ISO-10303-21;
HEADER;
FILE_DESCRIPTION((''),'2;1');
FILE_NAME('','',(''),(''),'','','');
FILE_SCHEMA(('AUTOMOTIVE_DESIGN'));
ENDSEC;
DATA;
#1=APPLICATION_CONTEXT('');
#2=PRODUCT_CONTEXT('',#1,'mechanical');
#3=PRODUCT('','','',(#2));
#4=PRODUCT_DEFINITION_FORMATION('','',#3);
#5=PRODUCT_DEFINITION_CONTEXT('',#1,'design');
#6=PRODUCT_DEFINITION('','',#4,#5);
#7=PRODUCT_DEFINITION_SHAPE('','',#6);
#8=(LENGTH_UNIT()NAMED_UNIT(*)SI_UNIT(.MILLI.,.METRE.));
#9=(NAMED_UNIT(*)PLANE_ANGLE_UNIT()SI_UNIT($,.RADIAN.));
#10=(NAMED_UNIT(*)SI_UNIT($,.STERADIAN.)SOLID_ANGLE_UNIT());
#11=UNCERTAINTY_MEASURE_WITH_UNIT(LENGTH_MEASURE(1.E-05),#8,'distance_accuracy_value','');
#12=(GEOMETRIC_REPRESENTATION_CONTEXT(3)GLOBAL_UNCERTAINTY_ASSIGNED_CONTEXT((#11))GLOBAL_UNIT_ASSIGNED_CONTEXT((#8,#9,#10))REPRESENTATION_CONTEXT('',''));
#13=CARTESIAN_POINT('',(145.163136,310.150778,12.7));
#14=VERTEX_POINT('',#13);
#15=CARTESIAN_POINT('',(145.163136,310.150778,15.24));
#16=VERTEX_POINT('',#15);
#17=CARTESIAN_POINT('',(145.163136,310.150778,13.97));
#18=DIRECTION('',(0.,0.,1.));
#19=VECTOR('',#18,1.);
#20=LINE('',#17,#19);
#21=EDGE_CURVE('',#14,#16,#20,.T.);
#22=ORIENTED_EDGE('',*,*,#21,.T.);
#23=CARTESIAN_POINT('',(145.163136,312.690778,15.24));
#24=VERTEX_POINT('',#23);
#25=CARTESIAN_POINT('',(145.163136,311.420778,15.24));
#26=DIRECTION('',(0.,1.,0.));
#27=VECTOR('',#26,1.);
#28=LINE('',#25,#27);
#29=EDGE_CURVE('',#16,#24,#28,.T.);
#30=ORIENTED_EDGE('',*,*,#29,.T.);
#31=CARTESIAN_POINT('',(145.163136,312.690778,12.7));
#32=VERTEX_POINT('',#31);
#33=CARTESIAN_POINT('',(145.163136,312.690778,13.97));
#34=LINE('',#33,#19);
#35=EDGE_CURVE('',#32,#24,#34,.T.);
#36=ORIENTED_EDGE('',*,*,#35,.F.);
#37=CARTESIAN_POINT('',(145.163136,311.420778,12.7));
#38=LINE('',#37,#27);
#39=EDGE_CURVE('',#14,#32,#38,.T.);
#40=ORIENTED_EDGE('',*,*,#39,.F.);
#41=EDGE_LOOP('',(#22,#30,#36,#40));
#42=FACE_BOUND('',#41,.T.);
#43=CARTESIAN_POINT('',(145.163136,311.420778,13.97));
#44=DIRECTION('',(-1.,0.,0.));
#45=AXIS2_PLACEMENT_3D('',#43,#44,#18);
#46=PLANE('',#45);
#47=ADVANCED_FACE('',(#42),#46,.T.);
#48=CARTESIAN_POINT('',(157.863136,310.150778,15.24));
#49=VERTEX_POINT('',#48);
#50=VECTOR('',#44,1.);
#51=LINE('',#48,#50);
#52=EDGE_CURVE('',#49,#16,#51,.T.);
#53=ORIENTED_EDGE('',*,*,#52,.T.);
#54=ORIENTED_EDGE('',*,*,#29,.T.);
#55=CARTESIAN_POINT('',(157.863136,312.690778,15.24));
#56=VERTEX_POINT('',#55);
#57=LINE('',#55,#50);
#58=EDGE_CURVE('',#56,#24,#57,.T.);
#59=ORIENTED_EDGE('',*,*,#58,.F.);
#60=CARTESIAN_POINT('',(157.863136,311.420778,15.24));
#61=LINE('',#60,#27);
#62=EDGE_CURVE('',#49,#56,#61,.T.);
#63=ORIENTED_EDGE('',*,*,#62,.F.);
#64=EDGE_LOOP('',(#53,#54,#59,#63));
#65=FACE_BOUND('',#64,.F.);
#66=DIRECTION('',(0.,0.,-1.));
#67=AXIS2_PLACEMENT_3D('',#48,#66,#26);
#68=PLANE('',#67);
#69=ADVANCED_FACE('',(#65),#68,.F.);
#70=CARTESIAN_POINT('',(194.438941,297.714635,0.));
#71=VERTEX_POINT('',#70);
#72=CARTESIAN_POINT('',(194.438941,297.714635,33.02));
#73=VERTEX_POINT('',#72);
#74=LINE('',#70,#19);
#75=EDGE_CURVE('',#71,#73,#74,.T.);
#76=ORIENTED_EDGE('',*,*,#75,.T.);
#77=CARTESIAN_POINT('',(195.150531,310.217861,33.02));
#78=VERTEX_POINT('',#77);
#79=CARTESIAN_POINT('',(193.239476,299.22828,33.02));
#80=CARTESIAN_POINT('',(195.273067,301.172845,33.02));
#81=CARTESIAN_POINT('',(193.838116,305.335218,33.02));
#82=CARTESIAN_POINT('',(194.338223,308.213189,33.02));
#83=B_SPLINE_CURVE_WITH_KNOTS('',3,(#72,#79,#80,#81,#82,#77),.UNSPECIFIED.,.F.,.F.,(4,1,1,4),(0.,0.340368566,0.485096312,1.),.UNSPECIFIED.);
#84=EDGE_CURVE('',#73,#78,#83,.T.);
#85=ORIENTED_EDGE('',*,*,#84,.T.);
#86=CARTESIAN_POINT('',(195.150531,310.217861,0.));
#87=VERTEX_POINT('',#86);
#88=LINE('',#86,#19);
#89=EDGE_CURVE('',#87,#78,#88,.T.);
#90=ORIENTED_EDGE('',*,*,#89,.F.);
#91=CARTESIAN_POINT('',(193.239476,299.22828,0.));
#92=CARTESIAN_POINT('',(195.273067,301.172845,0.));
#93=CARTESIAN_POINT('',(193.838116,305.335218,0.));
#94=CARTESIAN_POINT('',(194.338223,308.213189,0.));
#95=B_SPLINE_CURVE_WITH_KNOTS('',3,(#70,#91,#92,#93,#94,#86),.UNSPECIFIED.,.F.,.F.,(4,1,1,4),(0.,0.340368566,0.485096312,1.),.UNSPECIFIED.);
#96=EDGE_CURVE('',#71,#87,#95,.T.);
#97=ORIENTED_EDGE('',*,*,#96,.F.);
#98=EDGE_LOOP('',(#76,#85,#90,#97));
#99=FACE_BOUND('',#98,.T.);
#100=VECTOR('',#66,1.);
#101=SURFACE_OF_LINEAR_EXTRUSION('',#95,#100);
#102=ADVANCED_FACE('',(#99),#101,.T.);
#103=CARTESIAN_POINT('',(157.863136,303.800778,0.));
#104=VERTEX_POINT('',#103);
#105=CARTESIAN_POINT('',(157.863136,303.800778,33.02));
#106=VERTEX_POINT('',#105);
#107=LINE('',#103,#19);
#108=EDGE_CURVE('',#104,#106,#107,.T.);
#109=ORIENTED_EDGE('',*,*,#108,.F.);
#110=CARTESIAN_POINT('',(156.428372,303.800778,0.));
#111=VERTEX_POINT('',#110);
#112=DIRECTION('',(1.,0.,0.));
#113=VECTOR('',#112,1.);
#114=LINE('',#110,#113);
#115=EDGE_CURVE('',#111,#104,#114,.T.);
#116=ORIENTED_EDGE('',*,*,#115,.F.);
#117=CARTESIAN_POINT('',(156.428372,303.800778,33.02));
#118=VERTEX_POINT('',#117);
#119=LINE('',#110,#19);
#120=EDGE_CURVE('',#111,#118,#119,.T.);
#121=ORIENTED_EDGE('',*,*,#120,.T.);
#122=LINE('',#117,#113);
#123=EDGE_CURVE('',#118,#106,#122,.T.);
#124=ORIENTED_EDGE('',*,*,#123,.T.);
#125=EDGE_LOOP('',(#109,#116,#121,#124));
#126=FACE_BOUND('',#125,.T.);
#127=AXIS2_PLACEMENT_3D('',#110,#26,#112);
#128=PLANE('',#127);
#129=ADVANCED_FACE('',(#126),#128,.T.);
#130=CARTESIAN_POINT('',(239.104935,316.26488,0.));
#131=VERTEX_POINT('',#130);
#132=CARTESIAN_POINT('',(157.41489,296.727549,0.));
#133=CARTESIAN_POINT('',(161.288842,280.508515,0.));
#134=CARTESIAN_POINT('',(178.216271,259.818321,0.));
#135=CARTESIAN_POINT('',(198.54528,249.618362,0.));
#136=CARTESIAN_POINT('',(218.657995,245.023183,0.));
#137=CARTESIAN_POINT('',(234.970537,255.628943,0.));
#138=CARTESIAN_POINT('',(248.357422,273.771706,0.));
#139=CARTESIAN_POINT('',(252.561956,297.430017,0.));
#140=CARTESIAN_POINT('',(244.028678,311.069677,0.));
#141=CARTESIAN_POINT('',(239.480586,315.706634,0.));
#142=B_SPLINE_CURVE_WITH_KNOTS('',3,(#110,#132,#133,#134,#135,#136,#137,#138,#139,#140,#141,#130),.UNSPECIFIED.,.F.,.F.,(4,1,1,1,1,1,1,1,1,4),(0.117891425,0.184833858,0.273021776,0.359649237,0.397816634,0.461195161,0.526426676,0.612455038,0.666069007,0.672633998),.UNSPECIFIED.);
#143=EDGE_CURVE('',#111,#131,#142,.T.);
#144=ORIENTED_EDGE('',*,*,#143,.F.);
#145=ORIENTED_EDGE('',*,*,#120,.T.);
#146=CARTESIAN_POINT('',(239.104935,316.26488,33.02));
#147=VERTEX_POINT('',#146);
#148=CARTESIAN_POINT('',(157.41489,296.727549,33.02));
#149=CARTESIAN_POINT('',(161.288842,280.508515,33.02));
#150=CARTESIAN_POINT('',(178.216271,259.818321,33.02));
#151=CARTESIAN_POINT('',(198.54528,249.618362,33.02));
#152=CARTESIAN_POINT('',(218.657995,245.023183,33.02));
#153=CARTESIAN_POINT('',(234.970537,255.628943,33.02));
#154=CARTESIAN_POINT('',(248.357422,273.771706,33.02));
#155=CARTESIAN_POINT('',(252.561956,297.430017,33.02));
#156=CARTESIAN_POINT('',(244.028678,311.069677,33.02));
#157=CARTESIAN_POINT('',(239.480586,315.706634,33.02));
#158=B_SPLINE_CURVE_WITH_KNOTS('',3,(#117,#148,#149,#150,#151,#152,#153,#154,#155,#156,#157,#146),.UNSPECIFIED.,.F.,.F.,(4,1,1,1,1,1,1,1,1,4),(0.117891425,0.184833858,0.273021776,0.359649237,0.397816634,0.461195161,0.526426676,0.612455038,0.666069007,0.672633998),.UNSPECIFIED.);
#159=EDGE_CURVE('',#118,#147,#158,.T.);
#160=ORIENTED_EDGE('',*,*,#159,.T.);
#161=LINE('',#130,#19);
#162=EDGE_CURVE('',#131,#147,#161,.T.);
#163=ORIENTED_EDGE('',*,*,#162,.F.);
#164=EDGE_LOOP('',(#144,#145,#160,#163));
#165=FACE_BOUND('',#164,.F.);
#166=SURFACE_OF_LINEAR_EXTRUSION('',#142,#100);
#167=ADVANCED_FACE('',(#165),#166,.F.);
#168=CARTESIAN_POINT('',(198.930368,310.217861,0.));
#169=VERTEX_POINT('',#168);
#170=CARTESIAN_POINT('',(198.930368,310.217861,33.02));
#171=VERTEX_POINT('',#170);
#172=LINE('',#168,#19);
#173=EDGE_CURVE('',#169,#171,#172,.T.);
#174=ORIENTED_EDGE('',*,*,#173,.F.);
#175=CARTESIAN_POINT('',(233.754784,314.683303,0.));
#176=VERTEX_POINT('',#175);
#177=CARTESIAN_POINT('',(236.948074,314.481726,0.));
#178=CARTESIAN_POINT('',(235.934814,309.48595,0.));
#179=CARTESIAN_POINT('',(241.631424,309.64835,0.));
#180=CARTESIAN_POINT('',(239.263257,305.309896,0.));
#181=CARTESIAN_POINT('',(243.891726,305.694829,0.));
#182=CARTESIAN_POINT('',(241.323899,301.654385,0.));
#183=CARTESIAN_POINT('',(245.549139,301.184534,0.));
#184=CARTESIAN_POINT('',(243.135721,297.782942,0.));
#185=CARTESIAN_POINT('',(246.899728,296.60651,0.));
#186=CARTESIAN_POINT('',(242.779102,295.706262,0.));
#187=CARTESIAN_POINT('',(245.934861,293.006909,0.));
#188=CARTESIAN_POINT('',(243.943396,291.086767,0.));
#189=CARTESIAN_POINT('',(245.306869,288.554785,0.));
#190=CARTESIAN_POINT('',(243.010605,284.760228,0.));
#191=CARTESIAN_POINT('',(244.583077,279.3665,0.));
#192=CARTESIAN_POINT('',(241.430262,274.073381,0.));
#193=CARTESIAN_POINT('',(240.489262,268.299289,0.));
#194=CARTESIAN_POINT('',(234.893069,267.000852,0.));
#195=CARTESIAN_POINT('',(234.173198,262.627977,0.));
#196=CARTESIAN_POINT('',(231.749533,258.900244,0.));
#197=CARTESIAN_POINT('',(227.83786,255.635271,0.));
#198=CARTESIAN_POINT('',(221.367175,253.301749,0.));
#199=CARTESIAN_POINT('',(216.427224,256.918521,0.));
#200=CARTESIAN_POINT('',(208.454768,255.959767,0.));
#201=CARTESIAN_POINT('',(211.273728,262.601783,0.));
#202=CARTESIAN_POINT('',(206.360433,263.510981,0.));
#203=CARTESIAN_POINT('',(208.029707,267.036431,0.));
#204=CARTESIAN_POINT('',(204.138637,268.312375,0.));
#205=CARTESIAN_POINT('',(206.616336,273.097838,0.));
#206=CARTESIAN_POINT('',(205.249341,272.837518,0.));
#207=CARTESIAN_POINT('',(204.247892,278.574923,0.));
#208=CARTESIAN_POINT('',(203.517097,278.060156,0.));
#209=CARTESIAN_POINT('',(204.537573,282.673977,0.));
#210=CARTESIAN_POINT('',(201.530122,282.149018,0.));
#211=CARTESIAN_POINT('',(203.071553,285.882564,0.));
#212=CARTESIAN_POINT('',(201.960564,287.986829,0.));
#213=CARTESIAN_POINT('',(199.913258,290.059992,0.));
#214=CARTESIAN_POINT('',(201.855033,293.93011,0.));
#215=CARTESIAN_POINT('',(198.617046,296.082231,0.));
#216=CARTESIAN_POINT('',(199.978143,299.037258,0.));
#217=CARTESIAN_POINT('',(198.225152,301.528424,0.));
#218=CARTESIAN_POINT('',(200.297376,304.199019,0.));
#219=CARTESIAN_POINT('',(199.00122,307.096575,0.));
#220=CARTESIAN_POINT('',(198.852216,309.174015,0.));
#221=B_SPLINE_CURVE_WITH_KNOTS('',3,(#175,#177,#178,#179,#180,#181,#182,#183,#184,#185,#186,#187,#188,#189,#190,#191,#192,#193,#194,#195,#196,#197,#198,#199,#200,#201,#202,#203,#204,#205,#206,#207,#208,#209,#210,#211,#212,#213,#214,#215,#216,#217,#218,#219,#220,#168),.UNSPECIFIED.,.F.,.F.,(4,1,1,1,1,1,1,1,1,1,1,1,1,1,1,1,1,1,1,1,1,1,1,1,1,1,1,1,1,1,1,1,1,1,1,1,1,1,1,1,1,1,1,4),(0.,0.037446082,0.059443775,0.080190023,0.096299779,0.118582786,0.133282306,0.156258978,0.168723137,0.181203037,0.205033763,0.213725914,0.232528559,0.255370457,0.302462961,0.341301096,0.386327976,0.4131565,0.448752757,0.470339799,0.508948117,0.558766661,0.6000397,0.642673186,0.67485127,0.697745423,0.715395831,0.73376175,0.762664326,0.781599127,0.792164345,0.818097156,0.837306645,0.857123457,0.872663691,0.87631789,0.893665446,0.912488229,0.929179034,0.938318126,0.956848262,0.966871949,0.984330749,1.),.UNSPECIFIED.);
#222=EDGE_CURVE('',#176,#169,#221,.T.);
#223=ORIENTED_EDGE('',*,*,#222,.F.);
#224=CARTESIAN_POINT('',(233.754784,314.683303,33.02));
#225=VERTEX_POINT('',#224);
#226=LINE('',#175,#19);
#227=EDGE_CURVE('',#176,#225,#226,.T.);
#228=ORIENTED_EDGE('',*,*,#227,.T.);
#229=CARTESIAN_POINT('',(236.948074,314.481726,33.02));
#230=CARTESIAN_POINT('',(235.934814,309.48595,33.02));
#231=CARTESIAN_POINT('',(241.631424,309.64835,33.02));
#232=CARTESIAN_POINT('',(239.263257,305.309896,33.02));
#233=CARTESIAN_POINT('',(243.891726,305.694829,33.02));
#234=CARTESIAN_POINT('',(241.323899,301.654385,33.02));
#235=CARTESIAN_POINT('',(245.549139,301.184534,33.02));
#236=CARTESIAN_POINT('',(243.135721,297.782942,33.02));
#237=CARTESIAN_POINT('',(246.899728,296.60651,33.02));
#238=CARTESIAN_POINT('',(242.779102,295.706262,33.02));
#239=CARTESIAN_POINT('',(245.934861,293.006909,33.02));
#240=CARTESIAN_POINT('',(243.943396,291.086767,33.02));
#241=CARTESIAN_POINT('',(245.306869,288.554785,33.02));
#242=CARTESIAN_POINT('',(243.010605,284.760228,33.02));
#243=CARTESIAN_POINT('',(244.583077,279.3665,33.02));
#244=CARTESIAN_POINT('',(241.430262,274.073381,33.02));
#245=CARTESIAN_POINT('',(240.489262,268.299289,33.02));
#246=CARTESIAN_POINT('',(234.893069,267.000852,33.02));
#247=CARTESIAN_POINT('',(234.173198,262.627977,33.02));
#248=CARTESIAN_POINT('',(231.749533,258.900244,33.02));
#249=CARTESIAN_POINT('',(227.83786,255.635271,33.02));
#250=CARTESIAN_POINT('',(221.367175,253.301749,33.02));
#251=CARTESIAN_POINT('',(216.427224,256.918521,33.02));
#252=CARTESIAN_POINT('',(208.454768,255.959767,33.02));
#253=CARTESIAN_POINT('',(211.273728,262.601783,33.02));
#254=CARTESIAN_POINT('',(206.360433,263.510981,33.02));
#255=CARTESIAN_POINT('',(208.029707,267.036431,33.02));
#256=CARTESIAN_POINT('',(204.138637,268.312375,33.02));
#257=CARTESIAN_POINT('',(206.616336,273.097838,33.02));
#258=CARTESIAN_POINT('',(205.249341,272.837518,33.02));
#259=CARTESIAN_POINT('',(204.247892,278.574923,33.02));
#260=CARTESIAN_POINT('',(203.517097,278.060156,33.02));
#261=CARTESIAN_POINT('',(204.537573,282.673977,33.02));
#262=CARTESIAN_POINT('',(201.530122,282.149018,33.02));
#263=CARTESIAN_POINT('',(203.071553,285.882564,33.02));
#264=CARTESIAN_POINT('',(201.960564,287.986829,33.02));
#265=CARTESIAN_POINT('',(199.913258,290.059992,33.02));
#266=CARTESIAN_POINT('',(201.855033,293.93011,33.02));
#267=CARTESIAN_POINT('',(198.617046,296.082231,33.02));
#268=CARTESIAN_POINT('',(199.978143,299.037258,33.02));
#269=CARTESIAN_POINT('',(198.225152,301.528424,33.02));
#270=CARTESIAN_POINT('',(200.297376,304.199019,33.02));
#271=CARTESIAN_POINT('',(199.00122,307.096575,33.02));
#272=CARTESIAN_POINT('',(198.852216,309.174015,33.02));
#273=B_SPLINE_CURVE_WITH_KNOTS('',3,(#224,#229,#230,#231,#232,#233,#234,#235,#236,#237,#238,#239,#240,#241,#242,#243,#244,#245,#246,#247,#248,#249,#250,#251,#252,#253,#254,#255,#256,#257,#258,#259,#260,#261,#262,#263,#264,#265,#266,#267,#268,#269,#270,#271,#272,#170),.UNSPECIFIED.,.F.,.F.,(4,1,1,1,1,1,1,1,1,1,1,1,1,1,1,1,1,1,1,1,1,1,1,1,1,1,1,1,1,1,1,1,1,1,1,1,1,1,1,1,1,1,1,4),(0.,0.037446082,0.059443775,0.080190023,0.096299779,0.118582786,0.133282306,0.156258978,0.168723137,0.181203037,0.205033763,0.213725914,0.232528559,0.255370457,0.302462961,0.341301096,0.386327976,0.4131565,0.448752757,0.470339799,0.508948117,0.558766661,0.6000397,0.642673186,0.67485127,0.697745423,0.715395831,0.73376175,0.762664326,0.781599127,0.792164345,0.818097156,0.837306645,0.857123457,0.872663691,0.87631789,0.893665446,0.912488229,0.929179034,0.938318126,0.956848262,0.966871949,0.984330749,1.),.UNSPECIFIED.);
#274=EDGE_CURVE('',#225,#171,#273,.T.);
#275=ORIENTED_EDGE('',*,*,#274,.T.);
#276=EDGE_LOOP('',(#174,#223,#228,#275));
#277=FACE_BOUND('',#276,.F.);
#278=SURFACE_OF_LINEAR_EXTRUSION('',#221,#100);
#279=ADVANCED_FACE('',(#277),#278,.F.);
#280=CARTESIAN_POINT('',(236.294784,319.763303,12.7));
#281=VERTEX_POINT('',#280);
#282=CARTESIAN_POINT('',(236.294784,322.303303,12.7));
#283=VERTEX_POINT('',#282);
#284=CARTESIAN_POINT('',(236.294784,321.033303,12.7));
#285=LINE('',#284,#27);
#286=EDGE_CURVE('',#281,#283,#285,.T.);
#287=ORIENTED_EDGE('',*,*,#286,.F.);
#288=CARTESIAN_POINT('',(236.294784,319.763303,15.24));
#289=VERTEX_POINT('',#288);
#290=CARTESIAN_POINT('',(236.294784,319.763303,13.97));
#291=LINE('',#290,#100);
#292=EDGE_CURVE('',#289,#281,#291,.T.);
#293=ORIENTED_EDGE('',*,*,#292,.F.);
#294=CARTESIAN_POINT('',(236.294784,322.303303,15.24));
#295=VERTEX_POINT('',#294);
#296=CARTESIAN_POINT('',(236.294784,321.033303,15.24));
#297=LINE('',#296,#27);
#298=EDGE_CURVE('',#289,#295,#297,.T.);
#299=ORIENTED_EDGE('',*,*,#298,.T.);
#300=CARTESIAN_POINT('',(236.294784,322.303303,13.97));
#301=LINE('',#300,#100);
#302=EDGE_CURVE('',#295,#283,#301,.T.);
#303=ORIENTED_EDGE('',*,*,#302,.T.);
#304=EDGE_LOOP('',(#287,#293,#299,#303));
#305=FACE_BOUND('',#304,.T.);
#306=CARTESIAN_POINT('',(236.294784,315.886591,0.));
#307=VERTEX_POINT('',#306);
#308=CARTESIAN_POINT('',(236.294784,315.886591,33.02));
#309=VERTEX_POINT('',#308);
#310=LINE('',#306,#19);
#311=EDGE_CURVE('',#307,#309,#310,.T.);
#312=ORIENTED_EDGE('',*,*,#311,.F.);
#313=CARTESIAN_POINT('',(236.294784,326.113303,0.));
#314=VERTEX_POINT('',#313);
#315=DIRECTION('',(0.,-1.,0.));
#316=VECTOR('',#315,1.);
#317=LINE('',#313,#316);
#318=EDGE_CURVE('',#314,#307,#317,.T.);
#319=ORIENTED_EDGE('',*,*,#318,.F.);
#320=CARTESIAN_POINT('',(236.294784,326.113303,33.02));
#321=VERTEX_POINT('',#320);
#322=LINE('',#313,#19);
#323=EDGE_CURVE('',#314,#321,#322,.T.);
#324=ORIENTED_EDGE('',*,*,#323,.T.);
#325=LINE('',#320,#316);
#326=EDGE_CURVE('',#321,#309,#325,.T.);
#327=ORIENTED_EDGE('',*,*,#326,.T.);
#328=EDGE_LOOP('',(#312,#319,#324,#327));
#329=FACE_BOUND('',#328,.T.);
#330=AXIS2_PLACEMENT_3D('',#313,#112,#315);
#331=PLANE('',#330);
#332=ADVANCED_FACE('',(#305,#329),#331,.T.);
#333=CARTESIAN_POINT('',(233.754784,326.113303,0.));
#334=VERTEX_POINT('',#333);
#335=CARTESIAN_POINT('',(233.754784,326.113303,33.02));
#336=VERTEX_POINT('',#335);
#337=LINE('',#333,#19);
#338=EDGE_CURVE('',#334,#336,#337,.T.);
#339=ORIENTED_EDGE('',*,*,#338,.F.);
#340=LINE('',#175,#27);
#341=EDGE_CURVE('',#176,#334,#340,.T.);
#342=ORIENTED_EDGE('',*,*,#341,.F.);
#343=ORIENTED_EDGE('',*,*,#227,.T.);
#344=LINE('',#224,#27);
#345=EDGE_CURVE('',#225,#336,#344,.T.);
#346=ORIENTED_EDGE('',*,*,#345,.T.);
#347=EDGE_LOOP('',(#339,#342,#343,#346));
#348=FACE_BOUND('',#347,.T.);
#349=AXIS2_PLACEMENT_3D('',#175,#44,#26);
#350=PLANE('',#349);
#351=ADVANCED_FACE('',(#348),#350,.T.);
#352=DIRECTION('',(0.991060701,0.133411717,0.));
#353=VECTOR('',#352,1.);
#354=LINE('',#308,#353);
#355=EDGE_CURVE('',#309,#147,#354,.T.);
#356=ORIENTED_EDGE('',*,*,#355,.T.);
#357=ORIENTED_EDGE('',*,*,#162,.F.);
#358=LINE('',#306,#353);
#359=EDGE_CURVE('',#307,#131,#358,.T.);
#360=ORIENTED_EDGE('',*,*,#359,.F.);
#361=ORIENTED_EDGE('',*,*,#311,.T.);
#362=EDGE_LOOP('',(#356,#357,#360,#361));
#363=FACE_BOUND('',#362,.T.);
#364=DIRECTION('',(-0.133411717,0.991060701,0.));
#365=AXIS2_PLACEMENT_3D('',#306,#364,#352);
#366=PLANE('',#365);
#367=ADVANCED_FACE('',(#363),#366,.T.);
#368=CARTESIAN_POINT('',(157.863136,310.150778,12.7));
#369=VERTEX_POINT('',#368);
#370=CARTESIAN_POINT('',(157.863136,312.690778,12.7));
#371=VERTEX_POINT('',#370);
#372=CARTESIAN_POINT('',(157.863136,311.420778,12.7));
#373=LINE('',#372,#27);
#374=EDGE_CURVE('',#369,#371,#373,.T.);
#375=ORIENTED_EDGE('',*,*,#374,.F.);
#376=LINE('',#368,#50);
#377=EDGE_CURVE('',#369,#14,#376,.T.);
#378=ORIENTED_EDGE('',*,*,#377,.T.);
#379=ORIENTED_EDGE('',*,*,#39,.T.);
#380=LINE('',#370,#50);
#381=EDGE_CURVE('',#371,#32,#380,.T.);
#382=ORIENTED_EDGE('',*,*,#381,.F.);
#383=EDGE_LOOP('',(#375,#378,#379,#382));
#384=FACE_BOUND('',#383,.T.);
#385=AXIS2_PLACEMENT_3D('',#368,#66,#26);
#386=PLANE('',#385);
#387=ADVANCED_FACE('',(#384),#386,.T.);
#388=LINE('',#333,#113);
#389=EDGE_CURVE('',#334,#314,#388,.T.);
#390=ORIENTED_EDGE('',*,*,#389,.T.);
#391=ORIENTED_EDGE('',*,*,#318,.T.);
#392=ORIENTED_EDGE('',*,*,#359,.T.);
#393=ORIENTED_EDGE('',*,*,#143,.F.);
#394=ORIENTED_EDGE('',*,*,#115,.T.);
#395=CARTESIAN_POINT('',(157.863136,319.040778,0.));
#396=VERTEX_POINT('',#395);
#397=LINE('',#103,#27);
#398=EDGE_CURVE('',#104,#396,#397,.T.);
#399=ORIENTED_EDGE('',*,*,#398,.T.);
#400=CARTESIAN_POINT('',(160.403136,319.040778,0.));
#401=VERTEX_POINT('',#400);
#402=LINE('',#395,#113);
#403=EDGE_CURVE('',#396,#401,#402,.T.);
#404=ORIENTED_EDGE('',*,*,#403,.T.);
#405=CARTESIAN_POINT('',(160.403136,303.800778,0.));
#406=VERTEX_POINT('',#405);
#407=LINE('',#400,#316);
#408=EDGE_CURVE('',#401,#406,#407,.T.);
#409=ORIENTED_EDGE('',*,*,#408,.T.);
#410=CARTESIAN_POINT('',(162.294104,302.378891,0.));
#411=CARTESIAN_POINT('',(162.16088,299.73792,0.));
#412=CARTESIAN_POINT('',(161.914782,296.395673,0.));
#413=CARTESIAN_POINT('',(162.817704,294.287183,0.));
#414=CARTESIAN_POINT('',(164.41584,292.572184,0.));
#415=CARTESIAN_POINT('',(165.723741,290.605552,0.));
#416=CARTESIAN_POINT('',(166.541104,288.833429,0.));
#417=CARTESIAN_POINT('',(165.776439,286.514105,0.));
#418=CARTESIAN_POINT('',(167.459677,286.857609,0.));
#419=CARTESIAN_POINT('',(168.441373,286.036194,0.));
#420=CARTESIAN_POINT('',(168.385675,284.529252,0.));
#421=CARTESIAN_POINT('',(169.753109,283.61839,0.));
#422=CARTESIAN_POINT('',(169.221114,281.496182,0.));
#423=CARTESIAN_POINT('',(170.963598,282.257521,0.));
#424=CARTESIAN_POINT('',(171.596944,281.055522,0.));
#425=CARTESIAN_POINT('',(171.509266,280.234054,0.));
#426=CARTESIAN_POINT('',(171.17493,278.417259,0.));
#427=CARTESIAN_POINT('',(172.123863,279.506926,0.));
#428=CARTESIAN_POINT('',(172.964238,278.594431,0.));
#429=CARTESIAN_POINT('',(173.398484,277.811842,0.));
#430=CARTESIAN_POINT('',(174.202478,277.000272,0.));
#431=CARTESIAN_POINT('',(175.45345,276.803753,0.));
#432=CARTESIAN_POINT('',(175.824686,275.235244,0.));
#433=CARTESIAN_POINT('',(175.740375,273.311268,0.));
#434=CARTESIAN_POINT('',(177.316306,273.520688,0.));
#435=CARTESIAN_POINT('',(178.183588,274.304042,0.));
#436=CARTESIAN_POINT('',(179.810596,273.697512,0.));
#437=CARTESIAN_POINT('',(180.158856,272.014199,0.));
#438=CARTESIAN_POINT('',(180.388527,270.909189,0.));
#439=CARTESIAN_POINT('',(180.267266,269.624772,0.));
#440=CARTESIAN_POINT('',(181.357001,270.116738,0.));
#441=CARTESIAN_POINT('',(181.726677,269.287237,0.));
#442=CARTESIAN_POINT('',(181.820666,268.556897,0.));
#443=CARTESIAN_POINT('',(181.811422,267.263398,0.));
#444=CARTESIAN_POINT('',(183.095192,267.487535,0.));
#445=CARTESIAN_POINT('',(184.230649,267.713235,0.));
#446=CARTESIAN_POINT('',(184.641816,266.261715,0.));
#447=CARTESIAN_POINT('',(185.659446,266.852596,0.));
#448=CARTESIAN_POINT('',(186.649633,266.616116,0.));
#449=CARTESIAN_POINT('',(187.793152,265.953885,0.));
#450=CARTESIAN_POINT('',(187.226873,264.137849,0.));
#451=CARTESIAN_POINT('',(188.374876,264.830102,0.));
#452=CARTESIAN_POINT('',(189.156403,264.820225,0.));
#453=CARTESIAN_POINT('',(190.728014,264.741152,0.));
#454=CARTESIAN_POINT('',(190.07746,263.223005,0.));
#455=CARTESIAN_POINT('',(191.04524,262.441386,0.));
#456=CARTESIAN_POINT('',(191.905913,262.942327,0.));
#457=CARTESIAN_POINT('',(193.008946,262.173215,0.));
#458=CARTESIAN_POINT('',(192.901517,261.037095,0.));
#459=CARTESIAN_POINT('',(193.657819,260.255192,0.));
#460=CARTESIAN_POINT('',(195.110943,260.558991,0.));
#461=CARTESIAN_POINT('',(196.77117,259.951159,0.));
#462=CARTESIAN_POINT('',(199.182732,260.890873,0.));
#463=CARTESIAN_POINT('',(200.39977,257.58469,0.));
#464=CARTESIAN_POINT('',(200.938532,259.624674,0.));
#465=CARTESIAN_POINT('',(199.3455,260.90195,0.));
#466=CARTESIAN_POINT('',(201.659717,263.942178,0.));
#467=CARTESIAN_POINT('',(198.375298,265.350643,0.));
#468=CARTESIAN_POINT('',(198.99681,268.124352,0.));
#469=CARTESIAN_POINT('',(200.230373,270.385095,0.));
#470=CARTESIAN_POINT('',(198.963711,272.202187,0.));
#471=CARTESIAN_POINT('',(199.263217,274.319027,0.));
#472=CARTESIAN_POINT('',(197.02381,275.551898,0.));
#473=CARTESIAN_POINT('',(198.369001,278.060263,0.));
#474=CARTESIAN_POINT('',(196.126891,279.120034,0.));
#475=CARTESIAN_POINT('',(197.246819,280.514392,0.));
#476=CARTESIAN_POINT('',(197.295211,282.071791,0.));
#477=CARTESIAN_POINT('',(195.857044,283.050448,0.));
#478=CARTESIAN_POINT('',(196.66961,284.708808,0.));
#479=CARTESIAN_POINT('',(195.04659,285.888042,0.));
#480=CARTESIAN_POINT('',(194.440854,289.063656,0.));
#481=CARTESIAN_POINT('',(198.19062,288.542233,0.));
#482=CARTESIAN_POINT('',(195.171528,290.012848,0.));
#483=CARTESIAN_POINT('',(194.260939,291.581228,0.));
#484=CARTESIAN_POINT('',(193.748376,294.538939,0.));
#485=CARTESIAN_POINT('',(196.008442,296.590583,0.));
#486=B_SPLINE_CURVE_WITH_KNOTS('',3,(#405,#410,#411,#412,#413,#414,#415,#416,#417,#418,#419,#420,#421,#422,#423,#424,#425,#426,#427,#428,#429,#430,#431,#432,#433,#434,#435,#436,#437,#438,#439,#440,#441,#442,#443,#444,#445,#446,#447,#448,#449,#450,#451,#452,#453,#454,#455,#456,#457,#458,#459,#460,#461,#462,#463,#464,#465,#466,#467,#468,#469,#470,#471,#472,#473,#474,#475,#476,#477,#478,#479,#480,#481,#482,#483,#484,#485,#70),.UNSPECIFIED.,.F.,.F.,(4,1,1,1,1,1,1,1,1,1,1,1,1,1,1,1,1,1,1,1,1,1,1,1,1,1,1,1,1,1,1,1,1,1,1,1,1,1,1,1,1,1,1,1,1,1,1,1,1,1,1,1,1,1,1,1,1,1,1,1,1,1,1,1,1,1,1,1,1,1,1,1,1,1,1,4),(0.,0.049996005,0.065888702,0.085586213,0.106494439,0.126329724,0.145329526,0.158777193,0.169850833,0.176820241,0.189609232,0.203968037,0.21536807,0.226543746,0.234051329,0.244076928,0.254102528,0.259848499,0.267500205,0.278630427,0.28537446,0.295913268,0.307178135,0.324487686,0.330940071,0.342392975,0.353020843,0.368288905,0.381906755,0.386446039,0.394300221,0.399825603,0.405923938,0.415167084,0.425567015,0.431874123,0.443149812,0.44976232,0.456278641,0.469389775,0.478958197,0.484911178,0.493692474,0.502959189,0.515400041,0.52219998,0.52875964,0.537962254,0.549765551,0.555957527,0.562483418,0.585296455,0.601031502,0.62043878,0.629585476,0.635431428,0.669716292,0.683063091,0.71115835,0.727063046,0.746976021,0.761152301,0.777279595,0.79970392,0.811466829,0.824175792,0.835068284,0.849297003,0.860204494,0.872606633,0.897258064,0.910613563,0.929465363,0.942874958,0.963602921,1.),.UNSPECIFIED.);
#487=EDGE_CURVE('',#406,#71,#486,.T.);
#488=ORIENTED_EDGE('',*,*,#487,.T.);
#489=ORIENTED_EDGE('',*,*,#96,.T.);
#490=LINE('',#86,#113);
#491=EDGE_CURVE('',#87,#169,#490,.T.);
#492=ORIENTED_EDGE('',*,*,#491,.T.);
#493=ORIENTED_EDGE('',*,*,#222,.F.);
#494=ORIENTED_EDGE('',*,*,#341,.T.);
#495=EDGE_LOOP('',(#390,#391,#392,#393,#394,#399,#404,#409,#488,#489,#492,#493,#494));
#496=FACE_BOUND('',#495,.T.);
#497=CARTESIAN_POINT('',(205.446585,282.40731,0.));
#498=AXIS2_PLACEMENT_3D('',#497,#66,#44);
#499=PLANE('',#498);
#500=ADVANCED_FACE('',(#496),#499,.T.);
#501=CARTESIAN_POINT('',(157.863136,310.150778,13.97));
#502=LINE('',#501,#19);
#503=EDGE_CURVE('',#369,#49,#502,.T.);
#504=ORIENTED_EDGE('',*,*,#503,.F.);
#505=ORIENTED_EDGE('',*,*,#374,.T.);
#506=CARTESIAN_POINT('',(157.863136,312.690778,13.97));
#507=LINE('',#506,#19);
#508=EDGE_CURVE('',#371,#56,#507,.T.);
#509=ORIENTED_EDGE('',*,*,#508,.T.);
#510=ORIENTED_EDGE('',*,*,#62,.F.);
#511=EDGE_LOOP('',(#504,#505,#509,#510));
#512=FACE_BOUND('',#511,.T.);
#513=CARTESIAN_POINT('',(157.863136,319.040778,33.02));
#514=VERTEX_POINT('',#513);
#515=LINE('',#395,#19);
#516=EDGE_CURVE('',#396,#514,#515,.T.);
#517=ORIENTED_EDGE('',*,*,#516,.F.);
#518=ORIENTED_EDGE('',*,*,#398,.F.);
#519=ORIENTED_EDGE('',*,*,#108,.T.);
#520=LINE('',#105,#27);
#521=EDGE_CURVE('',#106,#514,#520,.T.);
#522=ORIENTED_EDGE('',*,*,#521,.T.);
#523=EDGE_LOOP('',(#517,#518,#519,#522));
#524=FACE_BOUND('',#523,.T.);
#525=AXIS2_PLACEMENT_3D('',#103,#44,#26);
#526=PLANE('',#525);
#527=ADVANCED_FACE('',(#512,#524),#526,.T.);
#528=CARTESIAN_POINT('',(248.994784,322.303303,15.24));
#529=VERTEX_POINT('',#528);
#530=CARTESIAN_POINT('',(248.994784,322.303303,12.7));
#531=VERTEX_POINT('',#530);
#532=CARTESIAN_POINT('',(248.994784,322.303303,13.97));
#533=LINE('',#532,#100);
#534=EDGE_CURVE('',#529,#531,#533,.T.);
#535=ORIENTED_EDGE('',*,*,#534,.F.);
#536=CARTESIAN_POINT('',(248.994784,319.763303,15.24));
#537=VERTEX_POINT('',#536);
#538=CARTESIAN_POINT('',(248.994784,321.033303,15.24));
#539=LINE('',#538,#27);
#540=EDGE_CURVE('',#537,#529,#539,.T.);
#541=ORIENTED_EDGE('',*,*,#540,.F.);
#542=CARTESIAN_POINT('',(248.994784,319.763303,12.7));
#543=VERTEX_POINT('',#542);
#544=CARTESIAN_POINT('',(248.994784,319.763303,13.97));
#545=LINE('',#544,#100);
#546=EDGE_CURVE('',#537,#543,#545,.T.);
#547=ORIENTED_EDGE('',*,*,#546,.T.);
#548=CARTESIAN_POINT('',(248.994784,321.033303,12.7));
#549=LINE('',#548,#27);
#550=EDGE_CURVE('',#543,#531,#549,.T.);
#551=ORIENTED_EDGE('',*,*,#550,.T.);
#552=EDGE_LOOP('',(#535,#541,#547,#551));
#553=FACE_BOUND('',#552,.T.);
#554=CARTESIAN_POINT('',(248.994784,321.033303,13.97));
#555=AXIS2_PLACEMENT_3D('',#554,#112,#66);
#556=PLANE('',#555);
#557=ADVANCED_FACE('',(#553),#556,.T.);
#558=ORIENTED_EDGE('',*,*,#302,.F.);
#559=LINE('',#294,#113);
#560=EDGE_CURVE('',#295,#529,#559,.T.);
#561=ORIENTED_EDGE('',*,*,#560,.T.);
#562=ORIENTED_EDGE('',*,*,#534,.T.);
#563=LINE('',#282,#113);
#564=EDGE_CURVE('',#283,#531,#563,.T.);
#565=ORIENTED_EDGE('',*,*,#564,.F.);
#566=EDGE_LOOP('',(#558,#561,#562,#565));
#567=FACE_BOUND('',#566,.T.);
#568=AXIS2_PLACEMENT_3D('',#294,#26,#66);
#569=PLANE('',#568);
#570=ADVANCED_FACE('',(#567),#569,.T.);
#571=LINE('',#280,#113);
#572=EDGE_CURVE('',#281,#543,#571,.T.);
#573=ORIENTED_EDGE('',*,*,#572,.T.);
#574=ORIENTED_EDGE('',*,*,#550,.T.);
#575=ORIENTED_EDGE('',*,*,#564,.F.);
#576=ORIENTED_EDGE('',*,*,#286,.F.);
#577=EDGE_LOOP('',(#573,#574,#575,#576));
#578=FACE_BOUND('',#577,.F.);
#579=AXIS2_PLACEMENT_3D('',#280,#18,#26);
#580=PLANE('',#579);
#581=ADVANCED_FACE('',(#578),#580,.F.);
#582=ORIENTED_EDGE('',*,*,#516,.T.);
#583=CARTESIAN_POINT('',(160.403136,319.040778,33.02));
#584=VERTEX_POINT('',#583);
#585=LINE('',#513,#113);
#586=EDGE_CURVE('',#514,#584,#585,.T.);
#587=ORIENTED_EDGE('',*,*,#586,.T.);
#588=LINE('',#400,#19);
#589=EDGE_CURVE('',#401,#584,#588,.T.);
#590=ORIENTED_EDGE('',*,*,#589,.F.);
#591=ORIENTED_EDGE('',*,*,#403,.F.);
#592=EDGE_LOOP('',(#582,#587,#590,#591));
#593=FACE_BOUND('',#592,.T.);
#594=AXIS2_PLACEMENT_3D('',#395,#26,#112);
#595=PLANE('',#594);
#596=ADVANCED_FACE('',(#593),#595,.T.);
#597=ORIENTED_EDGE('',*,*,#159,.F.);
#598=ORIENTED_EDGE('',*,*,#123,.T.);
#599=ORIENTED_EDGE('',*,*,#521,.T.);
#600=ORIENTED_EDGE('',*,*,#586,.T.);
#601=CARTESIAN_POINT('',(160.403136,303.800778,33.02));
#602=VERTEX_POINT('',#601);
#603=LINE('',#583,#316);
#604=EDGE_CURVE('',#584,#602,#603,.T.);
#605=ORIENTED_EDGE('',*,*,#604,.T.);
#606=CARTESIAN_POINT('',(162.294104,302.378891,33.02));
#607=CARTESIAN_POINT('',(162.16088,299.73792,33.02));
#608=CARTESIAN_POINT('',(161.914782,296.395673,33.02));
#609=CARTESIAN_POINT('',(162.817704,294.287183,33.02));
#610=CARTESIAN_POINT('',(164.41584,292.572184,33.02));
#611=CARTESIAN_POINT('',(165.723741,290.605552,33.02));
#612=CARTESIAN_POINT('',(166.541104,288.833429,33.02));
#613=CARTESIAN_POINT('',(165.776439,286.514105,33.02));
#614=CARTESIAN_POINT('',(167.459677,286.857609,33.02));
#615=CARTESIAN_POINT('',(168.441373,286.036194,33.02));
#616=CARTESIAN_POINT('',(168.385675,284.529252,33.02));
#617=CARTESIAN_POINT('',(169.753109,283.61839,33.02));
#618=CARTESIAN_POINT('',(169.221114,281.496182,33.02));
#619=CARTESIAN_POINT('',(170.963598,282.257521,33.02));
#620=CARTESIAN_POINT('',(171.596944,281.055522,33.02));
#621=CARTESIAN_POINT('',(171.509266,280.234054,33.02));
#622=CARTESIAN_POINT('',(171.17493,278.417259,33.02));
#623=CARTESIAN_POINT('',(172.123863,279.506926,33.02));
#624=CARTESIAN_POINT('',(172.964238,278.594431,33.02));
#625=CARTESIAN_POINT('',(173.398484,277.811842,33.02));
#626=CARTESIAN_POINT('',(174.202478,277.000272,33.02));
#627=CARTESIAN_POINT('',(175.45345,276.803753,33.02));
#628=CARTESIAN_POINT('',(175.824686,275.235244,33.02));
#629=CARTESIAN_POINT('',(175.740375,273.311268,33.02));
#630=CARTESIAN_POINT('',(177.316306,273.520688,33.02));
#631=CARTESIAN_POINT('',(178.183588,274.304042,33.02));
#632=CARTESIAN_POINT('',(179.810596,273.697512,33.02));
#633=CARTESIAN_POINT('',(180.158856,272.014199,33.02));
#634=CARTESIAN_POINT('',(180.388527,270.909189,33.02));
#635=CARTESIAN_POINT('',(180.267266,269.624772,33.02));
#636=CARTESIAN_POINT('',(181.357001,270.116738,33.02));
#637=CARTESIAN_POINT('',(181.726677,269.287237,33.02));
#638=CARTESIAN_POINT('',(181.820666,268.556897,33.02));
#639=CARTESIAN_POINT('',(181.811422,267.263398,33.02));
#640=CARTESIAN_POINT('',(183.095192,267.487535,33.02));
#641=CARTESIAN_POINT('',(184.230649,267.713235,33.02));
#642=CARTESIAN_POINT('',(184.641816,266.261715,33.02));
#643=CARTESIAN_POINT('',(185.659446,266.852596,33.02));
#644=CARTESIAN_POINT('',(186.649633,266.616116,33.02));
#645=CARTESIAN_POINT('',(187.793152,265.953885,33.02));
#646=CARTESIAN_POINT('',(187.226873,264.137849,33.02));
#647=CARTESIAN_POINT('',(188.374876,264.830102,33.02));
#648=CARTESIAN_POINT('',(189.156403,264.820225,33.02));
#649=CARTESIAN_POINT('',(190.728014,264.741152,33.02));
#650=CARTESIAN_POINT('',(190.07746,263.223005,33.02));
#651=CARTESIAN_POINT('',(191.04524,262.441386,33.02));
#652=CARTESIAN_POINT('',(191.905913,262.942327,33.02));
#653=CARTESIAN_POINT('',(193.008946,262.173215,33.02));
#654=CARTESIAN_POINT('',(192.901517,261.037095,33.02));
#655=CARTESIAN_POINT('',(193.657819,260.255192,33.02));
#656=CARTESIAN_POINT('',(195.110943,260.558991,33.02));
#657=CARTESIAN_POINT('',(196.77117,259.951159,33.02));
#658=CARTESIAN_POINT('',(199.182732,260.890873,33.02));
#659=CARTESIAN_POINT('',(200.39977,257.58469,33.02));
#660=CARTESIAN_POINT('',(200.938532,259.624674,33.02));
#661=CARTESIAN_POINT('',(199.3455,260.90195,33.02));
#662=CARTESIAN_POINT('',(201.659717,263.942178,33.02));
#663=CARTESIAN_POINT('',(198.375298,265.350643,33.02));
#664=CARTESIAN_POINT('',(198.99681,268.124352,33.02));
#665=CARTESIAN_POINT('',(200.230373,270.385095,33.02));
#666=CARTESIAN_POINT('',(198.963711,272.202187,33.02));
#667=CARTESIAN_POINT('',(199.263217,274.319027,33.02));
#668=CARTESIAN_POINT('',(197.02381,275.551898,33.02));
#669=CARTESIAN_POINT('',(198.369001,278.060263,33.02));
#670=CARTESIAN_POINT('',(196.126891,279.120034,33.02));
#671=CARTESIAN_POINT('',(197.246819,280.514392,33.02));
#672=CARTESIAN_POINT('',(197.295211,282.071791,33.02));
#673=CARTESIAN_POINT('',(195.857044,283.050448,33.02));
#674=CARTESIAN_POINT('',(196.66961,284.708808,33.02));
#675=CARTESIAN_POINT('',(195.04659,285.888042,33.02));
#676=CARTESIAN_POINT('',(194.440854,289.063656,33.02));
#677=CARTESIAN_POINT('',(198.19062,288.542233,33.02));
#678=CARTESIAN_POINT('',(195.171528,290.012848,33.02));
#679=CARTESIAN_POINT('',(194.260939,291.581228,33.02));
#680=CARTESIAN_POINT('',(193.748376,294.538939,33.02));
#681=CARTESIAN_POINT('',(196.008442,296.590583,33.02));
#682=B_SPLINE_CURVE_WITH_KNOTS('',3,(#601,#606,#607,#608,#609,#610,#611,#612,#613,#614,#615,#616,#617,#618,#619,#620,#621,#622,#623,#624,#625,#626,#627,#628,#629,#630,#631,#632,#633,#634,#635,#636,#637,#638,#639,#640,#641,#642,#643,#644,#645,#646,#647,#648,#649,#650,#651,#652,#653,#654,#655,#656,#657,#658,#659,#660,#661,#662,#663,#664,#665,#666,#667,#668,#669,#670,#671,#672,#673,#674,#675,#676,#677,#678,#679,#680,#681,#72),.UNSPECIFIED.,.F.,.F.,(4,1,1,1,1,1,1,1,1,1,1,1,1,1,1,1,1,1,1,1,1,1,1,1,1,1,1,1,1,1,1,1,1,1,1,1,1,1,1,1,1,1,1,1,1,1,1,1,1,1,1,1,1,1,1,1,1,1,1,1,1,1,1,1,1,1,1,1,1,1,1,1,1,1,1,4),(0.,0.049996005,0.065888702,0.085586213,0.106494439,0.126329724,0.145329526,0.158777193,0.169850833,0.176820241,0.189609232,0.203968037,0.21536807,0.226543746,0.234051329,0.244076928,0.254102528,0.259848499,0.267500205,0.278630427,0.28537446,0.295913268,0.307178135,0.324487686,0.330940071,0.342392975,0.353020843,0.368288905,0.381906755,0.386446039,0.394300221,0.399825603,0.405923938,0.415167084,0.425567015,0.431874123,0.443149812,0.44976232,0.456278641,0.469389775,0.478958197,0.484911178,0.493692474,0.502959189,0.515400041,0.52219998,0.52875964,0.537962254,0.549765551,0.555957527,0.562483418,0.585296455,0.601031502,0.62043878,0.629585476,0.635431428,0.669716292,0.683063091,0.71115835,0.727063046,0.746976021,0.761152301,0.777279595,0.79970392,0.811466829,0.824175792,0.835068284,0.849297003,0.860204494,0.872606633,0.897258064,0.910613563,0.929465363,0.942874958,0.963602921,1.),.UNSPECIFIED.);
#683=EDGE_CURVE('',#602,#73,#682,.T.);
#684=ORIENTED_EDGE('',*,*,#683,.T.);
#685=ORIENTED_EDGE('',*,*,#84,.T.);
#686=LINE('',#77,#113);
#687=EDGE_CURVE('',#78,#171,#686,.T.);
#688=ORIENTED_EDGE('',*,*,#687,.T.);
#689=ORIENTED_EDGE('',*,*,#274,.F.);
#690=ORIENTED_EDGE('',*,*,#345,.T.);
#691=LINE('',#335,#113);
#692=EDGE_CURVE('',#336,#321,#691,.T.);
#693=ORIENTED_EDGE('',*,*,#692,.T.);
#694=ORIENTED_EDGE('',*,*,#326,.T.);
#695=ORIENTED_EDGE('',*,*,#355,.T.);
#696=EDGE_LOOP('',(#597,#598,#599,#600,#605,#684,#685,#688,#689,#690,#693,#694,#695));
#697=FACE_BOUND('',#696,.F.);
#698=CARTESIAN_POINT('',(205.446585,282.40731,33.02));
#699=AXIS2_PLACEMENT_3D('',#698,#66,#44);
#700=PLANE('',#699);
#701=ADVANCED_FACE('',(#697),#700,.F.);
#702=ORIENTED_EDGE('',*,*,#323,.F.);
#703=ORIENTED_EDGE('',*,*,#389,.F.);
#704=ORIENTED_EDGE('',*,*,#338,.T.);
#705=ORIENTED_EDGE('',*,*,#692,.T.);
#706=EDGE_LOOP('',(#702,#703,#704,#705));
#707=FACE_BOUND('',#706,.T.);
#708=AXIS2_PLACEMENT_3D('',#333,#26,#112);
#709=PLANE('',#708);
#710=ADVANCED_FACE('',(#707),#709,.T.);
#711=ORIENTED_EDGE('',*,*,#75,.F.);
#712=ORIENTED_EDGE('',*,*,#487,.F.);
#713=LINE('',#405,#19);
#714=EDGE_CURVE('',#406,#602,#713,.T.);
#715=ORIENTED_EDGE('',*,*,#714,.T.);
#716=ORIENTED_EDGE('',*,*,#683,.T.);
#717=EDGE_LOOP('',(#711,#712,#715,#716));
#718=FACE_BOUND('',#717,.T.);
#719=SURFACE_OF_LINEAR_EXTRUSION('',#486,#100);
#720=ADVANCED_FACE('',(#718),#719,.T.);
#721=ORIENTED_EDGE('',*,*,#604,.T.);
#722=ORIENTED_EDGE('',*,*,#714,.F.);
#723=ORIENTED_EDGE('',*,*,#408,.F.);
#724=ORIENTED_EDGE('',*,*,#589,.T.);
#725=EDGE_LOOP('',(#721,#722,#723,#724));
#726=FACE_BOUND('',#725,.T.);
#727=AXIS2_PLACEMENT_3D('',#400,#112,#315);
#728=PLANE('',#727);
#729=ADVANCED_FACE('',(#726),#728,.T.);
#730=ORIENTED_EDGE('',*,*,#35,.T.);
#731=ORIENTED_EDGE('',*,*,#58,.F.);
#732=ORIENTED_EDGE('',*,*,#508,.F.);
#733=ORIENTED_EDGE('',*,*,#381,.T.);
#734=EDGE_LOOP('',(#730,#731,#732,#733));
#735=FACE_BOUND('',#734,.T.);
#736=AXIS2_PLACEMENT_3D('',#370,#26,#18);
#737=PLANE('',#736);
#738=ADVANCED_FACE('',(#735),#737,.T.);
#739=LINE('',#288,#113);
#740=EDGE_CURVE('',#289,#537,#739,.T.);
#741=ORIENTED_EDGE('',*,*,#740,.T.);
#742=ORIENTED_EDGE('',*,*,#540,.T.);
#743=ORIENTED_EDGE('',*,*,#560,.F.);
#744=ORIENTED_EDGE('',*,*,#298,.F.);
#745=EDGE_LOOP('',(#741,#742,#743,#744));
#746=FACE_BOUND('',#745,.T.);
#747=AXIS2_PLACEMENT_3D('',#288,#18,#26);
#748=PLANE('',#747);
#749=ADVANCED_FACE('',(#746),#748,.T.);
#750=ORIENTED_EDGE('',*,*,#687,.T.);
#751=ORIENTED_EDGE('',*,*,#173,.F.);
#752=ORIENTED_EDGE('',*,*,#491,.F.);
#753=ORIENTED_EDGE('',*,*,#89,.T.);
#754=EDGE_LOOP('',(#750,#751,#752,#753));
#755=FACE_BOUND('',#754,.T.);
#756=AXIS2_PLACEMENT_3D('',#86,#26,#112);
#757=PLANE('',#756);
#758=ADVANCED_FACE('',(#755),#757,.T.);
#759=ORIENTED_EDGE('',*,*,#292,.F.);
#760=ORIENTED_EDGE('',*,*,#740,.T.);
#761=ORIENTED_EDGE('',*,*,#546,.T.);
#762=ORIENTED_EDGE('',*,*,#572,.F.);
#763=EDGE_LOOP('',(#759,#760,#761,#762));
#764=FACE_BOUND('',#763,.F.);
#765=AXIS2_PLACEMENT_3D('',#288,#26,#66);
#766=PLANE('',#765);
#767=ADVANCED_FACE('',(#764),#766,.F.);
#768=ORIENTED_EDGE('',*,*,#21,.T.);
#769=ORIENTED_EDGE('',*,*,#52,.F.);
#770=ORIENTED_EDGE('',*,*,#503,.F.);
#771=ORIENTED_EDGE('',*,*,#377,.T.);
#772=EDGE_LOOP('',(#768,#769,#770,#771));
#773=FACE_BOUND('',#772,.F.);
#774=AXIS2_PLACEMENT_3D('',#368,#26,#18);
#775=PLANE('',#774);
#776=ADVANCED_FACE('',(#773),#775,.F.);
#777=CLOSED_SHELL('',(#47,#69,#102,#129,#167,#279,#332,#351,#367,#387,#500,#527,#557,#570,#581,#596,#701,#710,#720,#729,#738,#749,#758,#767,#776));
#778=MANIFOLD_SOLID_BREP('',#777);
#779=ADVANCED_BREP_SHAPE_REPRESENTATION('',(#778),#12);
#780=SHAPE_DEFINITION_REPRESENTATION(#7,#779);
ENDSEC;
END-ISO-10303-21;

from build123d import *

# Parameters (mm, degrees)
BOSS_EXTRUDE1_DEPTH = 33.02
SKETCH2_W           = 2.54
SKETCH2_H           = 2.54
BOSS_EXTRUDE2_DEPTH = 12.7
SKETCH3_W           = 2.54
SKETCH3_H           = 2.54
BOSS_EXTRUDE3_DEPTH = 12.7


with BuildPart() as part:
    # Sketch1 → Boss-Extrude1 (new body)
    with BuildSketch(Plane.XY):
        with BuildLine():
            Line((156.428372023, 303.800778291), (157.863136348, 303.800778291))
            Line((157.863136348, 303.800778291), (157.863136348, 319.040778291))
            Line((157.863136348, 319.040778291), (160.403136348, 319.040778291))
            Line((160.403136348, 319.040778291), (160.403136348, 303.800778291))
            add(Edge.make_bspline(
                [(160.403136348, 303.800778291), (162.294103725, 302.378890696), (162.160879846, 299.73791997), (161.914782074, 296.395672853), (162.817704167, 294.287183203), (164.415839534, 292.572183955), (165.723740531, 290.605551934), (166.541103744, 288.833429196), (165.776439451, 286.514105378), (167.459676955, 286.857608577), (168.441373384, 286.036193561), (168.385675137, 284.529252049), (169.753109248, 283.618390445), (169.221113918, 281.496181727), (170.96359801, 282.25752058), (171.596943914, 281.055521657), (171.509265666, 280.234054257), (171.174929696, 278.417258681), (172.123862672, 279.506925803), (172.964237505, 278.594431051), (173.398484414, 277.811842346), (174.202477578, 277.000272495), (175.453450059, 276.803752533), (175.824686289, 275.235244262), (175.740374736, 273.311268353), (177.316306141, 273.520688136), (178.183587724, 274.304041623), (179.810596493, 273.697512264), (180.158855624, 272.01419868), (180.388526886, 270.909188533), (180.26726562, 269.624772341), (181.357001497, 270.116738343), (181.726676595, 269.287236984), (181.820665539, 268.556897223), (181.811421683, 267.263398132), (183.095191598, 267.487534991), (184.230649198, 267.713235204), (184.64181633, 266.261715194), (185.659446478, 266.852595649), (186.649632797, 266.61611619), (187.793151969, 265.953885019), (187.226872697, 264.137849377), (188.374876326, 264.830102197), (189.156403231, 264.820224676), (190.728014144, 264.741151645), (190.07746036, 263.223005035), (191.045240062, 262.441385832), (191.905912659, 262.942327268), (193.008945519, 262.173215169), (192.901516804, 261.037095079), (193.657819474, 260.255192476), (195.110942606, 260.558990897), (196.771169942, 259.951158822), (199.182731596, 260.89087277), (200.399769785, 257.584690042), (200.938532357, 259.624674297), (199.345500123, 260.901950097), (201.659717079, 263.942178371), (198.375297663, 265.350642625), (198.996810197, 268.124351538), (200.230372523, 270.38509473), (198.963711248, 272.202186532), (199.263216503, 274.319027032), (197.023809703, 275.551898422), (198.369001189, 278.0602628), (196.126890521, 279.120033768), (197.246818775, 280.514392052), (197.295210609, 282.071791348), (195.857044345, 283.050448322), (196.66960976, 284.708807787), (195.046590082, 285.888041608), (194.440854031, 289.063655861), (198.190619939, 288.542233229), (195.171528415, 290.012847888), (194.260939097, 291.581227721), (193.748375737, 294.538939305), (196.008442266, 296.590582739), (194.438940738, 297.714635044)],
                knots=[0, 0, 0, 0, 0.049996005, 0.065888702, 0.085586213, 0.106494439, 0.126329724, 0.145329526, 0.158777193, 0.169850833, 0.176820241, 0.189609232, 0.203968037, 0.21536807, 0.226543746, 0.234051329, 0.244076928, 0.254102528, 0.259848499, 0.267500205, 0.278630427, 0.28537446, 0.295913268, 0.307178135, 0.324487686, 0.330940071, 0.342392975, 0.353020843, 0.368288905, 0.381906755, 0.386446039, 0.394300221, 0.399825603, 0.405923938, 0.415167084, 0.425567015, 0.431874123, 0.443149812, 0.44976232, 0.456278641, 0.469389775, 0.478958197, 0.484911178, 0.493692474, 0.502959189, 0.515400041, 0.52219998, 0.52875964, 0.537962254, 0.549765551, 0.555957527, 0.562483418, 0.585296455, 0.601031502, 0.62043878, 0.629585476, 0.635431428, 0.669716292, 0.683063091, 0.71115835, 0.727063046, 0.746976021, 0.761152301, 0.777279595, 0.79970392, 0.811466829, 0.824175792, 0.835068284, 0.849297003, 0.860204494, 0.872606633, 0.897258064, 0.910613563, 0.929465363, 0.942874958, 0.963602921, 1, 1, 1, 1], degree=3))
            add(Edge.make_bspline(
                [(194.438940738, 297.714635044), (193.239475577, 299.228279632), (195.273066719, 301.172844838), (193.838115627, 305.335217988), (194.338223402, 308.213188839), (195.150530917, 310.217861142)],
                knots=[0, 0, 0, 0, 0.340368566, 0.485096312, 1, 1, 1, 1], degree=3))
            Line((195.150530917, 310.217861142), (198.930367555, 310.217861142))
            add(Edge.make_bspline(
                [(233.754784279, 314.683303055), (236.948074465, 314.481726499), (235.934813662, 309.485950017), (241.631424233, 309.648350136), (239.263257233, 305.309895583), (243.891726253, 305.694828868), (241.323898684, 301.654384787), (245.549138654, 301.18453362), (243.135720739, 297.782942112), (246.899728073, 296.606510149), (242.779101557, 295.706262014), (245.934861415, 293.006908949), (243.943396072, 291.086766858), (245.306869031, 288.554785356), (243.010604532, 284.760227875), (244.583076617, 279.366500247), (241.43026217, 274.073380998), (240.489262334, 268.299289429), (234.893068517, 267.000851575), (234.173198006, 262.627976851), (231.749532524, 258.900244122), (227.837860056, 255.635271223), (221.367174921, 253.301749449), (216.427223678, 256.918520909), (208.454768062, 255.959767182), (211.273727911, 262.601783314), (206.360432744, 263.510981124), (208.029706699, 267.036431497), (204.138636871, 268.31237495), (206.616335693, 273.097838067), (205.249340756, 272.837518316), (204.247892346, 278.574922601), (203.517097239, 278.060156389), (204.537572962, 282.673976641), (201.530122152, 282.149017966), (203.07155312, 285.882564362), (201.960564102, 287.986829266), (199.913257842, 290.059992358), (201.855033301, 293.930110001), (198.617045745, 296.082230584), (199.97814261, 299.037257515), (198.225152061, 301.528423708), (200.297375827, 304.199019126), (199.001219724, 307.09657511), (198.852215803, 309.174015251), (198.930367555, 310.217861142)],
                knots=[0, 0, 0, 0, 0.037446082, 0.059443775, 0.080190023, 0.096299779, 0.118582786, 0.133282306, 0.156258978, 0.168723137, 0.181203037, 0.205033763, 0.213725914, 0.232528559, 0.255370457, 0.302462961, 0.341301096, 0.386327976, 0.4131565, 0.448752757, 0.470339799, 0.508948117, 0.558766661, 0.6000397, 0.642673186, 0.67485127, 0.697745423, 0.715395831, 0.73376175, 0.762664326, 0.781599127, 0.792164345, 0.818097156, 0.837306645, 0.857123457, 0.872663691, 0.87631789, 0.893665446, 0.912488229, 0.929179034, 0.938318126, 0.956848262, 0.966871949, 0.984330749, 1, 1, 1, 1], degree=3))
            Line((233.754784279, 314.683303055), (233.754784279, 326.113303055))
            Line((233.754784279, 326.113303055), (236.294784279, 326.113303055))
            Line((236.294784279, 326.113303055), (236.294784279, 315.886591298))
            Line((236.294784279, 315.886591298), (239.104934874, 316.264879949))
            add(Edge.make_bspline(
                [(156.428372023, 303.800778291), (157.414889581, 296.727548826), (161.288841581, 280.508514514), (178.216271, 259.818321197), (198.545279867, 249.618361545), (218.657994732, 245.023183274), (234.970537313, 255.628943237), (248.357422291, 273.771705936), (252.56195564, 297.430016755), (244.028678127, 311.069677221), (239.480585862, 315.706633531), (239.104934874, 316.264879949)],
                knots=[0.117891425, 0.117891425, 0.117891425, 0.117891425, 0.184833858, 0.273021776, 0.359649237, 0.397816634, 0.461195161, 0.526426676, 0.612455038, 0.666069007, 0.672633998, 0.672633998, 0.672633998, 0.672633998], degree=3))
        make_face()
    extrude(amount=BOSS_EXTRUDE1_DEPTH)

    # Sketch2 → Boss-Extrude2 (add)
    with BuildSketch(Plane.ZY.offset(-157.863136348)):
        with Locations((13.97, 311.420778291)):
            Rectangle(SKETCH2_W, SKETCH2_H)
    extrude(amount=BOSS_EXTRUDE2_DEPTH)

    # Sketch3 → Boss-Extrude3 (add)
    with BuildSketch(Plane(origin=(236.294784279, 0, 0), x_dir=(0, 0, -1), z_dir=(1, 0, 0))):
        with Locations((-13.97, 321.033303055)):
            Rectangle(SKETCH3_W, SKETCH3_H)
    extrude(amount=BOSS_EXTRUDE3_DEPTH)


solid = part.part
